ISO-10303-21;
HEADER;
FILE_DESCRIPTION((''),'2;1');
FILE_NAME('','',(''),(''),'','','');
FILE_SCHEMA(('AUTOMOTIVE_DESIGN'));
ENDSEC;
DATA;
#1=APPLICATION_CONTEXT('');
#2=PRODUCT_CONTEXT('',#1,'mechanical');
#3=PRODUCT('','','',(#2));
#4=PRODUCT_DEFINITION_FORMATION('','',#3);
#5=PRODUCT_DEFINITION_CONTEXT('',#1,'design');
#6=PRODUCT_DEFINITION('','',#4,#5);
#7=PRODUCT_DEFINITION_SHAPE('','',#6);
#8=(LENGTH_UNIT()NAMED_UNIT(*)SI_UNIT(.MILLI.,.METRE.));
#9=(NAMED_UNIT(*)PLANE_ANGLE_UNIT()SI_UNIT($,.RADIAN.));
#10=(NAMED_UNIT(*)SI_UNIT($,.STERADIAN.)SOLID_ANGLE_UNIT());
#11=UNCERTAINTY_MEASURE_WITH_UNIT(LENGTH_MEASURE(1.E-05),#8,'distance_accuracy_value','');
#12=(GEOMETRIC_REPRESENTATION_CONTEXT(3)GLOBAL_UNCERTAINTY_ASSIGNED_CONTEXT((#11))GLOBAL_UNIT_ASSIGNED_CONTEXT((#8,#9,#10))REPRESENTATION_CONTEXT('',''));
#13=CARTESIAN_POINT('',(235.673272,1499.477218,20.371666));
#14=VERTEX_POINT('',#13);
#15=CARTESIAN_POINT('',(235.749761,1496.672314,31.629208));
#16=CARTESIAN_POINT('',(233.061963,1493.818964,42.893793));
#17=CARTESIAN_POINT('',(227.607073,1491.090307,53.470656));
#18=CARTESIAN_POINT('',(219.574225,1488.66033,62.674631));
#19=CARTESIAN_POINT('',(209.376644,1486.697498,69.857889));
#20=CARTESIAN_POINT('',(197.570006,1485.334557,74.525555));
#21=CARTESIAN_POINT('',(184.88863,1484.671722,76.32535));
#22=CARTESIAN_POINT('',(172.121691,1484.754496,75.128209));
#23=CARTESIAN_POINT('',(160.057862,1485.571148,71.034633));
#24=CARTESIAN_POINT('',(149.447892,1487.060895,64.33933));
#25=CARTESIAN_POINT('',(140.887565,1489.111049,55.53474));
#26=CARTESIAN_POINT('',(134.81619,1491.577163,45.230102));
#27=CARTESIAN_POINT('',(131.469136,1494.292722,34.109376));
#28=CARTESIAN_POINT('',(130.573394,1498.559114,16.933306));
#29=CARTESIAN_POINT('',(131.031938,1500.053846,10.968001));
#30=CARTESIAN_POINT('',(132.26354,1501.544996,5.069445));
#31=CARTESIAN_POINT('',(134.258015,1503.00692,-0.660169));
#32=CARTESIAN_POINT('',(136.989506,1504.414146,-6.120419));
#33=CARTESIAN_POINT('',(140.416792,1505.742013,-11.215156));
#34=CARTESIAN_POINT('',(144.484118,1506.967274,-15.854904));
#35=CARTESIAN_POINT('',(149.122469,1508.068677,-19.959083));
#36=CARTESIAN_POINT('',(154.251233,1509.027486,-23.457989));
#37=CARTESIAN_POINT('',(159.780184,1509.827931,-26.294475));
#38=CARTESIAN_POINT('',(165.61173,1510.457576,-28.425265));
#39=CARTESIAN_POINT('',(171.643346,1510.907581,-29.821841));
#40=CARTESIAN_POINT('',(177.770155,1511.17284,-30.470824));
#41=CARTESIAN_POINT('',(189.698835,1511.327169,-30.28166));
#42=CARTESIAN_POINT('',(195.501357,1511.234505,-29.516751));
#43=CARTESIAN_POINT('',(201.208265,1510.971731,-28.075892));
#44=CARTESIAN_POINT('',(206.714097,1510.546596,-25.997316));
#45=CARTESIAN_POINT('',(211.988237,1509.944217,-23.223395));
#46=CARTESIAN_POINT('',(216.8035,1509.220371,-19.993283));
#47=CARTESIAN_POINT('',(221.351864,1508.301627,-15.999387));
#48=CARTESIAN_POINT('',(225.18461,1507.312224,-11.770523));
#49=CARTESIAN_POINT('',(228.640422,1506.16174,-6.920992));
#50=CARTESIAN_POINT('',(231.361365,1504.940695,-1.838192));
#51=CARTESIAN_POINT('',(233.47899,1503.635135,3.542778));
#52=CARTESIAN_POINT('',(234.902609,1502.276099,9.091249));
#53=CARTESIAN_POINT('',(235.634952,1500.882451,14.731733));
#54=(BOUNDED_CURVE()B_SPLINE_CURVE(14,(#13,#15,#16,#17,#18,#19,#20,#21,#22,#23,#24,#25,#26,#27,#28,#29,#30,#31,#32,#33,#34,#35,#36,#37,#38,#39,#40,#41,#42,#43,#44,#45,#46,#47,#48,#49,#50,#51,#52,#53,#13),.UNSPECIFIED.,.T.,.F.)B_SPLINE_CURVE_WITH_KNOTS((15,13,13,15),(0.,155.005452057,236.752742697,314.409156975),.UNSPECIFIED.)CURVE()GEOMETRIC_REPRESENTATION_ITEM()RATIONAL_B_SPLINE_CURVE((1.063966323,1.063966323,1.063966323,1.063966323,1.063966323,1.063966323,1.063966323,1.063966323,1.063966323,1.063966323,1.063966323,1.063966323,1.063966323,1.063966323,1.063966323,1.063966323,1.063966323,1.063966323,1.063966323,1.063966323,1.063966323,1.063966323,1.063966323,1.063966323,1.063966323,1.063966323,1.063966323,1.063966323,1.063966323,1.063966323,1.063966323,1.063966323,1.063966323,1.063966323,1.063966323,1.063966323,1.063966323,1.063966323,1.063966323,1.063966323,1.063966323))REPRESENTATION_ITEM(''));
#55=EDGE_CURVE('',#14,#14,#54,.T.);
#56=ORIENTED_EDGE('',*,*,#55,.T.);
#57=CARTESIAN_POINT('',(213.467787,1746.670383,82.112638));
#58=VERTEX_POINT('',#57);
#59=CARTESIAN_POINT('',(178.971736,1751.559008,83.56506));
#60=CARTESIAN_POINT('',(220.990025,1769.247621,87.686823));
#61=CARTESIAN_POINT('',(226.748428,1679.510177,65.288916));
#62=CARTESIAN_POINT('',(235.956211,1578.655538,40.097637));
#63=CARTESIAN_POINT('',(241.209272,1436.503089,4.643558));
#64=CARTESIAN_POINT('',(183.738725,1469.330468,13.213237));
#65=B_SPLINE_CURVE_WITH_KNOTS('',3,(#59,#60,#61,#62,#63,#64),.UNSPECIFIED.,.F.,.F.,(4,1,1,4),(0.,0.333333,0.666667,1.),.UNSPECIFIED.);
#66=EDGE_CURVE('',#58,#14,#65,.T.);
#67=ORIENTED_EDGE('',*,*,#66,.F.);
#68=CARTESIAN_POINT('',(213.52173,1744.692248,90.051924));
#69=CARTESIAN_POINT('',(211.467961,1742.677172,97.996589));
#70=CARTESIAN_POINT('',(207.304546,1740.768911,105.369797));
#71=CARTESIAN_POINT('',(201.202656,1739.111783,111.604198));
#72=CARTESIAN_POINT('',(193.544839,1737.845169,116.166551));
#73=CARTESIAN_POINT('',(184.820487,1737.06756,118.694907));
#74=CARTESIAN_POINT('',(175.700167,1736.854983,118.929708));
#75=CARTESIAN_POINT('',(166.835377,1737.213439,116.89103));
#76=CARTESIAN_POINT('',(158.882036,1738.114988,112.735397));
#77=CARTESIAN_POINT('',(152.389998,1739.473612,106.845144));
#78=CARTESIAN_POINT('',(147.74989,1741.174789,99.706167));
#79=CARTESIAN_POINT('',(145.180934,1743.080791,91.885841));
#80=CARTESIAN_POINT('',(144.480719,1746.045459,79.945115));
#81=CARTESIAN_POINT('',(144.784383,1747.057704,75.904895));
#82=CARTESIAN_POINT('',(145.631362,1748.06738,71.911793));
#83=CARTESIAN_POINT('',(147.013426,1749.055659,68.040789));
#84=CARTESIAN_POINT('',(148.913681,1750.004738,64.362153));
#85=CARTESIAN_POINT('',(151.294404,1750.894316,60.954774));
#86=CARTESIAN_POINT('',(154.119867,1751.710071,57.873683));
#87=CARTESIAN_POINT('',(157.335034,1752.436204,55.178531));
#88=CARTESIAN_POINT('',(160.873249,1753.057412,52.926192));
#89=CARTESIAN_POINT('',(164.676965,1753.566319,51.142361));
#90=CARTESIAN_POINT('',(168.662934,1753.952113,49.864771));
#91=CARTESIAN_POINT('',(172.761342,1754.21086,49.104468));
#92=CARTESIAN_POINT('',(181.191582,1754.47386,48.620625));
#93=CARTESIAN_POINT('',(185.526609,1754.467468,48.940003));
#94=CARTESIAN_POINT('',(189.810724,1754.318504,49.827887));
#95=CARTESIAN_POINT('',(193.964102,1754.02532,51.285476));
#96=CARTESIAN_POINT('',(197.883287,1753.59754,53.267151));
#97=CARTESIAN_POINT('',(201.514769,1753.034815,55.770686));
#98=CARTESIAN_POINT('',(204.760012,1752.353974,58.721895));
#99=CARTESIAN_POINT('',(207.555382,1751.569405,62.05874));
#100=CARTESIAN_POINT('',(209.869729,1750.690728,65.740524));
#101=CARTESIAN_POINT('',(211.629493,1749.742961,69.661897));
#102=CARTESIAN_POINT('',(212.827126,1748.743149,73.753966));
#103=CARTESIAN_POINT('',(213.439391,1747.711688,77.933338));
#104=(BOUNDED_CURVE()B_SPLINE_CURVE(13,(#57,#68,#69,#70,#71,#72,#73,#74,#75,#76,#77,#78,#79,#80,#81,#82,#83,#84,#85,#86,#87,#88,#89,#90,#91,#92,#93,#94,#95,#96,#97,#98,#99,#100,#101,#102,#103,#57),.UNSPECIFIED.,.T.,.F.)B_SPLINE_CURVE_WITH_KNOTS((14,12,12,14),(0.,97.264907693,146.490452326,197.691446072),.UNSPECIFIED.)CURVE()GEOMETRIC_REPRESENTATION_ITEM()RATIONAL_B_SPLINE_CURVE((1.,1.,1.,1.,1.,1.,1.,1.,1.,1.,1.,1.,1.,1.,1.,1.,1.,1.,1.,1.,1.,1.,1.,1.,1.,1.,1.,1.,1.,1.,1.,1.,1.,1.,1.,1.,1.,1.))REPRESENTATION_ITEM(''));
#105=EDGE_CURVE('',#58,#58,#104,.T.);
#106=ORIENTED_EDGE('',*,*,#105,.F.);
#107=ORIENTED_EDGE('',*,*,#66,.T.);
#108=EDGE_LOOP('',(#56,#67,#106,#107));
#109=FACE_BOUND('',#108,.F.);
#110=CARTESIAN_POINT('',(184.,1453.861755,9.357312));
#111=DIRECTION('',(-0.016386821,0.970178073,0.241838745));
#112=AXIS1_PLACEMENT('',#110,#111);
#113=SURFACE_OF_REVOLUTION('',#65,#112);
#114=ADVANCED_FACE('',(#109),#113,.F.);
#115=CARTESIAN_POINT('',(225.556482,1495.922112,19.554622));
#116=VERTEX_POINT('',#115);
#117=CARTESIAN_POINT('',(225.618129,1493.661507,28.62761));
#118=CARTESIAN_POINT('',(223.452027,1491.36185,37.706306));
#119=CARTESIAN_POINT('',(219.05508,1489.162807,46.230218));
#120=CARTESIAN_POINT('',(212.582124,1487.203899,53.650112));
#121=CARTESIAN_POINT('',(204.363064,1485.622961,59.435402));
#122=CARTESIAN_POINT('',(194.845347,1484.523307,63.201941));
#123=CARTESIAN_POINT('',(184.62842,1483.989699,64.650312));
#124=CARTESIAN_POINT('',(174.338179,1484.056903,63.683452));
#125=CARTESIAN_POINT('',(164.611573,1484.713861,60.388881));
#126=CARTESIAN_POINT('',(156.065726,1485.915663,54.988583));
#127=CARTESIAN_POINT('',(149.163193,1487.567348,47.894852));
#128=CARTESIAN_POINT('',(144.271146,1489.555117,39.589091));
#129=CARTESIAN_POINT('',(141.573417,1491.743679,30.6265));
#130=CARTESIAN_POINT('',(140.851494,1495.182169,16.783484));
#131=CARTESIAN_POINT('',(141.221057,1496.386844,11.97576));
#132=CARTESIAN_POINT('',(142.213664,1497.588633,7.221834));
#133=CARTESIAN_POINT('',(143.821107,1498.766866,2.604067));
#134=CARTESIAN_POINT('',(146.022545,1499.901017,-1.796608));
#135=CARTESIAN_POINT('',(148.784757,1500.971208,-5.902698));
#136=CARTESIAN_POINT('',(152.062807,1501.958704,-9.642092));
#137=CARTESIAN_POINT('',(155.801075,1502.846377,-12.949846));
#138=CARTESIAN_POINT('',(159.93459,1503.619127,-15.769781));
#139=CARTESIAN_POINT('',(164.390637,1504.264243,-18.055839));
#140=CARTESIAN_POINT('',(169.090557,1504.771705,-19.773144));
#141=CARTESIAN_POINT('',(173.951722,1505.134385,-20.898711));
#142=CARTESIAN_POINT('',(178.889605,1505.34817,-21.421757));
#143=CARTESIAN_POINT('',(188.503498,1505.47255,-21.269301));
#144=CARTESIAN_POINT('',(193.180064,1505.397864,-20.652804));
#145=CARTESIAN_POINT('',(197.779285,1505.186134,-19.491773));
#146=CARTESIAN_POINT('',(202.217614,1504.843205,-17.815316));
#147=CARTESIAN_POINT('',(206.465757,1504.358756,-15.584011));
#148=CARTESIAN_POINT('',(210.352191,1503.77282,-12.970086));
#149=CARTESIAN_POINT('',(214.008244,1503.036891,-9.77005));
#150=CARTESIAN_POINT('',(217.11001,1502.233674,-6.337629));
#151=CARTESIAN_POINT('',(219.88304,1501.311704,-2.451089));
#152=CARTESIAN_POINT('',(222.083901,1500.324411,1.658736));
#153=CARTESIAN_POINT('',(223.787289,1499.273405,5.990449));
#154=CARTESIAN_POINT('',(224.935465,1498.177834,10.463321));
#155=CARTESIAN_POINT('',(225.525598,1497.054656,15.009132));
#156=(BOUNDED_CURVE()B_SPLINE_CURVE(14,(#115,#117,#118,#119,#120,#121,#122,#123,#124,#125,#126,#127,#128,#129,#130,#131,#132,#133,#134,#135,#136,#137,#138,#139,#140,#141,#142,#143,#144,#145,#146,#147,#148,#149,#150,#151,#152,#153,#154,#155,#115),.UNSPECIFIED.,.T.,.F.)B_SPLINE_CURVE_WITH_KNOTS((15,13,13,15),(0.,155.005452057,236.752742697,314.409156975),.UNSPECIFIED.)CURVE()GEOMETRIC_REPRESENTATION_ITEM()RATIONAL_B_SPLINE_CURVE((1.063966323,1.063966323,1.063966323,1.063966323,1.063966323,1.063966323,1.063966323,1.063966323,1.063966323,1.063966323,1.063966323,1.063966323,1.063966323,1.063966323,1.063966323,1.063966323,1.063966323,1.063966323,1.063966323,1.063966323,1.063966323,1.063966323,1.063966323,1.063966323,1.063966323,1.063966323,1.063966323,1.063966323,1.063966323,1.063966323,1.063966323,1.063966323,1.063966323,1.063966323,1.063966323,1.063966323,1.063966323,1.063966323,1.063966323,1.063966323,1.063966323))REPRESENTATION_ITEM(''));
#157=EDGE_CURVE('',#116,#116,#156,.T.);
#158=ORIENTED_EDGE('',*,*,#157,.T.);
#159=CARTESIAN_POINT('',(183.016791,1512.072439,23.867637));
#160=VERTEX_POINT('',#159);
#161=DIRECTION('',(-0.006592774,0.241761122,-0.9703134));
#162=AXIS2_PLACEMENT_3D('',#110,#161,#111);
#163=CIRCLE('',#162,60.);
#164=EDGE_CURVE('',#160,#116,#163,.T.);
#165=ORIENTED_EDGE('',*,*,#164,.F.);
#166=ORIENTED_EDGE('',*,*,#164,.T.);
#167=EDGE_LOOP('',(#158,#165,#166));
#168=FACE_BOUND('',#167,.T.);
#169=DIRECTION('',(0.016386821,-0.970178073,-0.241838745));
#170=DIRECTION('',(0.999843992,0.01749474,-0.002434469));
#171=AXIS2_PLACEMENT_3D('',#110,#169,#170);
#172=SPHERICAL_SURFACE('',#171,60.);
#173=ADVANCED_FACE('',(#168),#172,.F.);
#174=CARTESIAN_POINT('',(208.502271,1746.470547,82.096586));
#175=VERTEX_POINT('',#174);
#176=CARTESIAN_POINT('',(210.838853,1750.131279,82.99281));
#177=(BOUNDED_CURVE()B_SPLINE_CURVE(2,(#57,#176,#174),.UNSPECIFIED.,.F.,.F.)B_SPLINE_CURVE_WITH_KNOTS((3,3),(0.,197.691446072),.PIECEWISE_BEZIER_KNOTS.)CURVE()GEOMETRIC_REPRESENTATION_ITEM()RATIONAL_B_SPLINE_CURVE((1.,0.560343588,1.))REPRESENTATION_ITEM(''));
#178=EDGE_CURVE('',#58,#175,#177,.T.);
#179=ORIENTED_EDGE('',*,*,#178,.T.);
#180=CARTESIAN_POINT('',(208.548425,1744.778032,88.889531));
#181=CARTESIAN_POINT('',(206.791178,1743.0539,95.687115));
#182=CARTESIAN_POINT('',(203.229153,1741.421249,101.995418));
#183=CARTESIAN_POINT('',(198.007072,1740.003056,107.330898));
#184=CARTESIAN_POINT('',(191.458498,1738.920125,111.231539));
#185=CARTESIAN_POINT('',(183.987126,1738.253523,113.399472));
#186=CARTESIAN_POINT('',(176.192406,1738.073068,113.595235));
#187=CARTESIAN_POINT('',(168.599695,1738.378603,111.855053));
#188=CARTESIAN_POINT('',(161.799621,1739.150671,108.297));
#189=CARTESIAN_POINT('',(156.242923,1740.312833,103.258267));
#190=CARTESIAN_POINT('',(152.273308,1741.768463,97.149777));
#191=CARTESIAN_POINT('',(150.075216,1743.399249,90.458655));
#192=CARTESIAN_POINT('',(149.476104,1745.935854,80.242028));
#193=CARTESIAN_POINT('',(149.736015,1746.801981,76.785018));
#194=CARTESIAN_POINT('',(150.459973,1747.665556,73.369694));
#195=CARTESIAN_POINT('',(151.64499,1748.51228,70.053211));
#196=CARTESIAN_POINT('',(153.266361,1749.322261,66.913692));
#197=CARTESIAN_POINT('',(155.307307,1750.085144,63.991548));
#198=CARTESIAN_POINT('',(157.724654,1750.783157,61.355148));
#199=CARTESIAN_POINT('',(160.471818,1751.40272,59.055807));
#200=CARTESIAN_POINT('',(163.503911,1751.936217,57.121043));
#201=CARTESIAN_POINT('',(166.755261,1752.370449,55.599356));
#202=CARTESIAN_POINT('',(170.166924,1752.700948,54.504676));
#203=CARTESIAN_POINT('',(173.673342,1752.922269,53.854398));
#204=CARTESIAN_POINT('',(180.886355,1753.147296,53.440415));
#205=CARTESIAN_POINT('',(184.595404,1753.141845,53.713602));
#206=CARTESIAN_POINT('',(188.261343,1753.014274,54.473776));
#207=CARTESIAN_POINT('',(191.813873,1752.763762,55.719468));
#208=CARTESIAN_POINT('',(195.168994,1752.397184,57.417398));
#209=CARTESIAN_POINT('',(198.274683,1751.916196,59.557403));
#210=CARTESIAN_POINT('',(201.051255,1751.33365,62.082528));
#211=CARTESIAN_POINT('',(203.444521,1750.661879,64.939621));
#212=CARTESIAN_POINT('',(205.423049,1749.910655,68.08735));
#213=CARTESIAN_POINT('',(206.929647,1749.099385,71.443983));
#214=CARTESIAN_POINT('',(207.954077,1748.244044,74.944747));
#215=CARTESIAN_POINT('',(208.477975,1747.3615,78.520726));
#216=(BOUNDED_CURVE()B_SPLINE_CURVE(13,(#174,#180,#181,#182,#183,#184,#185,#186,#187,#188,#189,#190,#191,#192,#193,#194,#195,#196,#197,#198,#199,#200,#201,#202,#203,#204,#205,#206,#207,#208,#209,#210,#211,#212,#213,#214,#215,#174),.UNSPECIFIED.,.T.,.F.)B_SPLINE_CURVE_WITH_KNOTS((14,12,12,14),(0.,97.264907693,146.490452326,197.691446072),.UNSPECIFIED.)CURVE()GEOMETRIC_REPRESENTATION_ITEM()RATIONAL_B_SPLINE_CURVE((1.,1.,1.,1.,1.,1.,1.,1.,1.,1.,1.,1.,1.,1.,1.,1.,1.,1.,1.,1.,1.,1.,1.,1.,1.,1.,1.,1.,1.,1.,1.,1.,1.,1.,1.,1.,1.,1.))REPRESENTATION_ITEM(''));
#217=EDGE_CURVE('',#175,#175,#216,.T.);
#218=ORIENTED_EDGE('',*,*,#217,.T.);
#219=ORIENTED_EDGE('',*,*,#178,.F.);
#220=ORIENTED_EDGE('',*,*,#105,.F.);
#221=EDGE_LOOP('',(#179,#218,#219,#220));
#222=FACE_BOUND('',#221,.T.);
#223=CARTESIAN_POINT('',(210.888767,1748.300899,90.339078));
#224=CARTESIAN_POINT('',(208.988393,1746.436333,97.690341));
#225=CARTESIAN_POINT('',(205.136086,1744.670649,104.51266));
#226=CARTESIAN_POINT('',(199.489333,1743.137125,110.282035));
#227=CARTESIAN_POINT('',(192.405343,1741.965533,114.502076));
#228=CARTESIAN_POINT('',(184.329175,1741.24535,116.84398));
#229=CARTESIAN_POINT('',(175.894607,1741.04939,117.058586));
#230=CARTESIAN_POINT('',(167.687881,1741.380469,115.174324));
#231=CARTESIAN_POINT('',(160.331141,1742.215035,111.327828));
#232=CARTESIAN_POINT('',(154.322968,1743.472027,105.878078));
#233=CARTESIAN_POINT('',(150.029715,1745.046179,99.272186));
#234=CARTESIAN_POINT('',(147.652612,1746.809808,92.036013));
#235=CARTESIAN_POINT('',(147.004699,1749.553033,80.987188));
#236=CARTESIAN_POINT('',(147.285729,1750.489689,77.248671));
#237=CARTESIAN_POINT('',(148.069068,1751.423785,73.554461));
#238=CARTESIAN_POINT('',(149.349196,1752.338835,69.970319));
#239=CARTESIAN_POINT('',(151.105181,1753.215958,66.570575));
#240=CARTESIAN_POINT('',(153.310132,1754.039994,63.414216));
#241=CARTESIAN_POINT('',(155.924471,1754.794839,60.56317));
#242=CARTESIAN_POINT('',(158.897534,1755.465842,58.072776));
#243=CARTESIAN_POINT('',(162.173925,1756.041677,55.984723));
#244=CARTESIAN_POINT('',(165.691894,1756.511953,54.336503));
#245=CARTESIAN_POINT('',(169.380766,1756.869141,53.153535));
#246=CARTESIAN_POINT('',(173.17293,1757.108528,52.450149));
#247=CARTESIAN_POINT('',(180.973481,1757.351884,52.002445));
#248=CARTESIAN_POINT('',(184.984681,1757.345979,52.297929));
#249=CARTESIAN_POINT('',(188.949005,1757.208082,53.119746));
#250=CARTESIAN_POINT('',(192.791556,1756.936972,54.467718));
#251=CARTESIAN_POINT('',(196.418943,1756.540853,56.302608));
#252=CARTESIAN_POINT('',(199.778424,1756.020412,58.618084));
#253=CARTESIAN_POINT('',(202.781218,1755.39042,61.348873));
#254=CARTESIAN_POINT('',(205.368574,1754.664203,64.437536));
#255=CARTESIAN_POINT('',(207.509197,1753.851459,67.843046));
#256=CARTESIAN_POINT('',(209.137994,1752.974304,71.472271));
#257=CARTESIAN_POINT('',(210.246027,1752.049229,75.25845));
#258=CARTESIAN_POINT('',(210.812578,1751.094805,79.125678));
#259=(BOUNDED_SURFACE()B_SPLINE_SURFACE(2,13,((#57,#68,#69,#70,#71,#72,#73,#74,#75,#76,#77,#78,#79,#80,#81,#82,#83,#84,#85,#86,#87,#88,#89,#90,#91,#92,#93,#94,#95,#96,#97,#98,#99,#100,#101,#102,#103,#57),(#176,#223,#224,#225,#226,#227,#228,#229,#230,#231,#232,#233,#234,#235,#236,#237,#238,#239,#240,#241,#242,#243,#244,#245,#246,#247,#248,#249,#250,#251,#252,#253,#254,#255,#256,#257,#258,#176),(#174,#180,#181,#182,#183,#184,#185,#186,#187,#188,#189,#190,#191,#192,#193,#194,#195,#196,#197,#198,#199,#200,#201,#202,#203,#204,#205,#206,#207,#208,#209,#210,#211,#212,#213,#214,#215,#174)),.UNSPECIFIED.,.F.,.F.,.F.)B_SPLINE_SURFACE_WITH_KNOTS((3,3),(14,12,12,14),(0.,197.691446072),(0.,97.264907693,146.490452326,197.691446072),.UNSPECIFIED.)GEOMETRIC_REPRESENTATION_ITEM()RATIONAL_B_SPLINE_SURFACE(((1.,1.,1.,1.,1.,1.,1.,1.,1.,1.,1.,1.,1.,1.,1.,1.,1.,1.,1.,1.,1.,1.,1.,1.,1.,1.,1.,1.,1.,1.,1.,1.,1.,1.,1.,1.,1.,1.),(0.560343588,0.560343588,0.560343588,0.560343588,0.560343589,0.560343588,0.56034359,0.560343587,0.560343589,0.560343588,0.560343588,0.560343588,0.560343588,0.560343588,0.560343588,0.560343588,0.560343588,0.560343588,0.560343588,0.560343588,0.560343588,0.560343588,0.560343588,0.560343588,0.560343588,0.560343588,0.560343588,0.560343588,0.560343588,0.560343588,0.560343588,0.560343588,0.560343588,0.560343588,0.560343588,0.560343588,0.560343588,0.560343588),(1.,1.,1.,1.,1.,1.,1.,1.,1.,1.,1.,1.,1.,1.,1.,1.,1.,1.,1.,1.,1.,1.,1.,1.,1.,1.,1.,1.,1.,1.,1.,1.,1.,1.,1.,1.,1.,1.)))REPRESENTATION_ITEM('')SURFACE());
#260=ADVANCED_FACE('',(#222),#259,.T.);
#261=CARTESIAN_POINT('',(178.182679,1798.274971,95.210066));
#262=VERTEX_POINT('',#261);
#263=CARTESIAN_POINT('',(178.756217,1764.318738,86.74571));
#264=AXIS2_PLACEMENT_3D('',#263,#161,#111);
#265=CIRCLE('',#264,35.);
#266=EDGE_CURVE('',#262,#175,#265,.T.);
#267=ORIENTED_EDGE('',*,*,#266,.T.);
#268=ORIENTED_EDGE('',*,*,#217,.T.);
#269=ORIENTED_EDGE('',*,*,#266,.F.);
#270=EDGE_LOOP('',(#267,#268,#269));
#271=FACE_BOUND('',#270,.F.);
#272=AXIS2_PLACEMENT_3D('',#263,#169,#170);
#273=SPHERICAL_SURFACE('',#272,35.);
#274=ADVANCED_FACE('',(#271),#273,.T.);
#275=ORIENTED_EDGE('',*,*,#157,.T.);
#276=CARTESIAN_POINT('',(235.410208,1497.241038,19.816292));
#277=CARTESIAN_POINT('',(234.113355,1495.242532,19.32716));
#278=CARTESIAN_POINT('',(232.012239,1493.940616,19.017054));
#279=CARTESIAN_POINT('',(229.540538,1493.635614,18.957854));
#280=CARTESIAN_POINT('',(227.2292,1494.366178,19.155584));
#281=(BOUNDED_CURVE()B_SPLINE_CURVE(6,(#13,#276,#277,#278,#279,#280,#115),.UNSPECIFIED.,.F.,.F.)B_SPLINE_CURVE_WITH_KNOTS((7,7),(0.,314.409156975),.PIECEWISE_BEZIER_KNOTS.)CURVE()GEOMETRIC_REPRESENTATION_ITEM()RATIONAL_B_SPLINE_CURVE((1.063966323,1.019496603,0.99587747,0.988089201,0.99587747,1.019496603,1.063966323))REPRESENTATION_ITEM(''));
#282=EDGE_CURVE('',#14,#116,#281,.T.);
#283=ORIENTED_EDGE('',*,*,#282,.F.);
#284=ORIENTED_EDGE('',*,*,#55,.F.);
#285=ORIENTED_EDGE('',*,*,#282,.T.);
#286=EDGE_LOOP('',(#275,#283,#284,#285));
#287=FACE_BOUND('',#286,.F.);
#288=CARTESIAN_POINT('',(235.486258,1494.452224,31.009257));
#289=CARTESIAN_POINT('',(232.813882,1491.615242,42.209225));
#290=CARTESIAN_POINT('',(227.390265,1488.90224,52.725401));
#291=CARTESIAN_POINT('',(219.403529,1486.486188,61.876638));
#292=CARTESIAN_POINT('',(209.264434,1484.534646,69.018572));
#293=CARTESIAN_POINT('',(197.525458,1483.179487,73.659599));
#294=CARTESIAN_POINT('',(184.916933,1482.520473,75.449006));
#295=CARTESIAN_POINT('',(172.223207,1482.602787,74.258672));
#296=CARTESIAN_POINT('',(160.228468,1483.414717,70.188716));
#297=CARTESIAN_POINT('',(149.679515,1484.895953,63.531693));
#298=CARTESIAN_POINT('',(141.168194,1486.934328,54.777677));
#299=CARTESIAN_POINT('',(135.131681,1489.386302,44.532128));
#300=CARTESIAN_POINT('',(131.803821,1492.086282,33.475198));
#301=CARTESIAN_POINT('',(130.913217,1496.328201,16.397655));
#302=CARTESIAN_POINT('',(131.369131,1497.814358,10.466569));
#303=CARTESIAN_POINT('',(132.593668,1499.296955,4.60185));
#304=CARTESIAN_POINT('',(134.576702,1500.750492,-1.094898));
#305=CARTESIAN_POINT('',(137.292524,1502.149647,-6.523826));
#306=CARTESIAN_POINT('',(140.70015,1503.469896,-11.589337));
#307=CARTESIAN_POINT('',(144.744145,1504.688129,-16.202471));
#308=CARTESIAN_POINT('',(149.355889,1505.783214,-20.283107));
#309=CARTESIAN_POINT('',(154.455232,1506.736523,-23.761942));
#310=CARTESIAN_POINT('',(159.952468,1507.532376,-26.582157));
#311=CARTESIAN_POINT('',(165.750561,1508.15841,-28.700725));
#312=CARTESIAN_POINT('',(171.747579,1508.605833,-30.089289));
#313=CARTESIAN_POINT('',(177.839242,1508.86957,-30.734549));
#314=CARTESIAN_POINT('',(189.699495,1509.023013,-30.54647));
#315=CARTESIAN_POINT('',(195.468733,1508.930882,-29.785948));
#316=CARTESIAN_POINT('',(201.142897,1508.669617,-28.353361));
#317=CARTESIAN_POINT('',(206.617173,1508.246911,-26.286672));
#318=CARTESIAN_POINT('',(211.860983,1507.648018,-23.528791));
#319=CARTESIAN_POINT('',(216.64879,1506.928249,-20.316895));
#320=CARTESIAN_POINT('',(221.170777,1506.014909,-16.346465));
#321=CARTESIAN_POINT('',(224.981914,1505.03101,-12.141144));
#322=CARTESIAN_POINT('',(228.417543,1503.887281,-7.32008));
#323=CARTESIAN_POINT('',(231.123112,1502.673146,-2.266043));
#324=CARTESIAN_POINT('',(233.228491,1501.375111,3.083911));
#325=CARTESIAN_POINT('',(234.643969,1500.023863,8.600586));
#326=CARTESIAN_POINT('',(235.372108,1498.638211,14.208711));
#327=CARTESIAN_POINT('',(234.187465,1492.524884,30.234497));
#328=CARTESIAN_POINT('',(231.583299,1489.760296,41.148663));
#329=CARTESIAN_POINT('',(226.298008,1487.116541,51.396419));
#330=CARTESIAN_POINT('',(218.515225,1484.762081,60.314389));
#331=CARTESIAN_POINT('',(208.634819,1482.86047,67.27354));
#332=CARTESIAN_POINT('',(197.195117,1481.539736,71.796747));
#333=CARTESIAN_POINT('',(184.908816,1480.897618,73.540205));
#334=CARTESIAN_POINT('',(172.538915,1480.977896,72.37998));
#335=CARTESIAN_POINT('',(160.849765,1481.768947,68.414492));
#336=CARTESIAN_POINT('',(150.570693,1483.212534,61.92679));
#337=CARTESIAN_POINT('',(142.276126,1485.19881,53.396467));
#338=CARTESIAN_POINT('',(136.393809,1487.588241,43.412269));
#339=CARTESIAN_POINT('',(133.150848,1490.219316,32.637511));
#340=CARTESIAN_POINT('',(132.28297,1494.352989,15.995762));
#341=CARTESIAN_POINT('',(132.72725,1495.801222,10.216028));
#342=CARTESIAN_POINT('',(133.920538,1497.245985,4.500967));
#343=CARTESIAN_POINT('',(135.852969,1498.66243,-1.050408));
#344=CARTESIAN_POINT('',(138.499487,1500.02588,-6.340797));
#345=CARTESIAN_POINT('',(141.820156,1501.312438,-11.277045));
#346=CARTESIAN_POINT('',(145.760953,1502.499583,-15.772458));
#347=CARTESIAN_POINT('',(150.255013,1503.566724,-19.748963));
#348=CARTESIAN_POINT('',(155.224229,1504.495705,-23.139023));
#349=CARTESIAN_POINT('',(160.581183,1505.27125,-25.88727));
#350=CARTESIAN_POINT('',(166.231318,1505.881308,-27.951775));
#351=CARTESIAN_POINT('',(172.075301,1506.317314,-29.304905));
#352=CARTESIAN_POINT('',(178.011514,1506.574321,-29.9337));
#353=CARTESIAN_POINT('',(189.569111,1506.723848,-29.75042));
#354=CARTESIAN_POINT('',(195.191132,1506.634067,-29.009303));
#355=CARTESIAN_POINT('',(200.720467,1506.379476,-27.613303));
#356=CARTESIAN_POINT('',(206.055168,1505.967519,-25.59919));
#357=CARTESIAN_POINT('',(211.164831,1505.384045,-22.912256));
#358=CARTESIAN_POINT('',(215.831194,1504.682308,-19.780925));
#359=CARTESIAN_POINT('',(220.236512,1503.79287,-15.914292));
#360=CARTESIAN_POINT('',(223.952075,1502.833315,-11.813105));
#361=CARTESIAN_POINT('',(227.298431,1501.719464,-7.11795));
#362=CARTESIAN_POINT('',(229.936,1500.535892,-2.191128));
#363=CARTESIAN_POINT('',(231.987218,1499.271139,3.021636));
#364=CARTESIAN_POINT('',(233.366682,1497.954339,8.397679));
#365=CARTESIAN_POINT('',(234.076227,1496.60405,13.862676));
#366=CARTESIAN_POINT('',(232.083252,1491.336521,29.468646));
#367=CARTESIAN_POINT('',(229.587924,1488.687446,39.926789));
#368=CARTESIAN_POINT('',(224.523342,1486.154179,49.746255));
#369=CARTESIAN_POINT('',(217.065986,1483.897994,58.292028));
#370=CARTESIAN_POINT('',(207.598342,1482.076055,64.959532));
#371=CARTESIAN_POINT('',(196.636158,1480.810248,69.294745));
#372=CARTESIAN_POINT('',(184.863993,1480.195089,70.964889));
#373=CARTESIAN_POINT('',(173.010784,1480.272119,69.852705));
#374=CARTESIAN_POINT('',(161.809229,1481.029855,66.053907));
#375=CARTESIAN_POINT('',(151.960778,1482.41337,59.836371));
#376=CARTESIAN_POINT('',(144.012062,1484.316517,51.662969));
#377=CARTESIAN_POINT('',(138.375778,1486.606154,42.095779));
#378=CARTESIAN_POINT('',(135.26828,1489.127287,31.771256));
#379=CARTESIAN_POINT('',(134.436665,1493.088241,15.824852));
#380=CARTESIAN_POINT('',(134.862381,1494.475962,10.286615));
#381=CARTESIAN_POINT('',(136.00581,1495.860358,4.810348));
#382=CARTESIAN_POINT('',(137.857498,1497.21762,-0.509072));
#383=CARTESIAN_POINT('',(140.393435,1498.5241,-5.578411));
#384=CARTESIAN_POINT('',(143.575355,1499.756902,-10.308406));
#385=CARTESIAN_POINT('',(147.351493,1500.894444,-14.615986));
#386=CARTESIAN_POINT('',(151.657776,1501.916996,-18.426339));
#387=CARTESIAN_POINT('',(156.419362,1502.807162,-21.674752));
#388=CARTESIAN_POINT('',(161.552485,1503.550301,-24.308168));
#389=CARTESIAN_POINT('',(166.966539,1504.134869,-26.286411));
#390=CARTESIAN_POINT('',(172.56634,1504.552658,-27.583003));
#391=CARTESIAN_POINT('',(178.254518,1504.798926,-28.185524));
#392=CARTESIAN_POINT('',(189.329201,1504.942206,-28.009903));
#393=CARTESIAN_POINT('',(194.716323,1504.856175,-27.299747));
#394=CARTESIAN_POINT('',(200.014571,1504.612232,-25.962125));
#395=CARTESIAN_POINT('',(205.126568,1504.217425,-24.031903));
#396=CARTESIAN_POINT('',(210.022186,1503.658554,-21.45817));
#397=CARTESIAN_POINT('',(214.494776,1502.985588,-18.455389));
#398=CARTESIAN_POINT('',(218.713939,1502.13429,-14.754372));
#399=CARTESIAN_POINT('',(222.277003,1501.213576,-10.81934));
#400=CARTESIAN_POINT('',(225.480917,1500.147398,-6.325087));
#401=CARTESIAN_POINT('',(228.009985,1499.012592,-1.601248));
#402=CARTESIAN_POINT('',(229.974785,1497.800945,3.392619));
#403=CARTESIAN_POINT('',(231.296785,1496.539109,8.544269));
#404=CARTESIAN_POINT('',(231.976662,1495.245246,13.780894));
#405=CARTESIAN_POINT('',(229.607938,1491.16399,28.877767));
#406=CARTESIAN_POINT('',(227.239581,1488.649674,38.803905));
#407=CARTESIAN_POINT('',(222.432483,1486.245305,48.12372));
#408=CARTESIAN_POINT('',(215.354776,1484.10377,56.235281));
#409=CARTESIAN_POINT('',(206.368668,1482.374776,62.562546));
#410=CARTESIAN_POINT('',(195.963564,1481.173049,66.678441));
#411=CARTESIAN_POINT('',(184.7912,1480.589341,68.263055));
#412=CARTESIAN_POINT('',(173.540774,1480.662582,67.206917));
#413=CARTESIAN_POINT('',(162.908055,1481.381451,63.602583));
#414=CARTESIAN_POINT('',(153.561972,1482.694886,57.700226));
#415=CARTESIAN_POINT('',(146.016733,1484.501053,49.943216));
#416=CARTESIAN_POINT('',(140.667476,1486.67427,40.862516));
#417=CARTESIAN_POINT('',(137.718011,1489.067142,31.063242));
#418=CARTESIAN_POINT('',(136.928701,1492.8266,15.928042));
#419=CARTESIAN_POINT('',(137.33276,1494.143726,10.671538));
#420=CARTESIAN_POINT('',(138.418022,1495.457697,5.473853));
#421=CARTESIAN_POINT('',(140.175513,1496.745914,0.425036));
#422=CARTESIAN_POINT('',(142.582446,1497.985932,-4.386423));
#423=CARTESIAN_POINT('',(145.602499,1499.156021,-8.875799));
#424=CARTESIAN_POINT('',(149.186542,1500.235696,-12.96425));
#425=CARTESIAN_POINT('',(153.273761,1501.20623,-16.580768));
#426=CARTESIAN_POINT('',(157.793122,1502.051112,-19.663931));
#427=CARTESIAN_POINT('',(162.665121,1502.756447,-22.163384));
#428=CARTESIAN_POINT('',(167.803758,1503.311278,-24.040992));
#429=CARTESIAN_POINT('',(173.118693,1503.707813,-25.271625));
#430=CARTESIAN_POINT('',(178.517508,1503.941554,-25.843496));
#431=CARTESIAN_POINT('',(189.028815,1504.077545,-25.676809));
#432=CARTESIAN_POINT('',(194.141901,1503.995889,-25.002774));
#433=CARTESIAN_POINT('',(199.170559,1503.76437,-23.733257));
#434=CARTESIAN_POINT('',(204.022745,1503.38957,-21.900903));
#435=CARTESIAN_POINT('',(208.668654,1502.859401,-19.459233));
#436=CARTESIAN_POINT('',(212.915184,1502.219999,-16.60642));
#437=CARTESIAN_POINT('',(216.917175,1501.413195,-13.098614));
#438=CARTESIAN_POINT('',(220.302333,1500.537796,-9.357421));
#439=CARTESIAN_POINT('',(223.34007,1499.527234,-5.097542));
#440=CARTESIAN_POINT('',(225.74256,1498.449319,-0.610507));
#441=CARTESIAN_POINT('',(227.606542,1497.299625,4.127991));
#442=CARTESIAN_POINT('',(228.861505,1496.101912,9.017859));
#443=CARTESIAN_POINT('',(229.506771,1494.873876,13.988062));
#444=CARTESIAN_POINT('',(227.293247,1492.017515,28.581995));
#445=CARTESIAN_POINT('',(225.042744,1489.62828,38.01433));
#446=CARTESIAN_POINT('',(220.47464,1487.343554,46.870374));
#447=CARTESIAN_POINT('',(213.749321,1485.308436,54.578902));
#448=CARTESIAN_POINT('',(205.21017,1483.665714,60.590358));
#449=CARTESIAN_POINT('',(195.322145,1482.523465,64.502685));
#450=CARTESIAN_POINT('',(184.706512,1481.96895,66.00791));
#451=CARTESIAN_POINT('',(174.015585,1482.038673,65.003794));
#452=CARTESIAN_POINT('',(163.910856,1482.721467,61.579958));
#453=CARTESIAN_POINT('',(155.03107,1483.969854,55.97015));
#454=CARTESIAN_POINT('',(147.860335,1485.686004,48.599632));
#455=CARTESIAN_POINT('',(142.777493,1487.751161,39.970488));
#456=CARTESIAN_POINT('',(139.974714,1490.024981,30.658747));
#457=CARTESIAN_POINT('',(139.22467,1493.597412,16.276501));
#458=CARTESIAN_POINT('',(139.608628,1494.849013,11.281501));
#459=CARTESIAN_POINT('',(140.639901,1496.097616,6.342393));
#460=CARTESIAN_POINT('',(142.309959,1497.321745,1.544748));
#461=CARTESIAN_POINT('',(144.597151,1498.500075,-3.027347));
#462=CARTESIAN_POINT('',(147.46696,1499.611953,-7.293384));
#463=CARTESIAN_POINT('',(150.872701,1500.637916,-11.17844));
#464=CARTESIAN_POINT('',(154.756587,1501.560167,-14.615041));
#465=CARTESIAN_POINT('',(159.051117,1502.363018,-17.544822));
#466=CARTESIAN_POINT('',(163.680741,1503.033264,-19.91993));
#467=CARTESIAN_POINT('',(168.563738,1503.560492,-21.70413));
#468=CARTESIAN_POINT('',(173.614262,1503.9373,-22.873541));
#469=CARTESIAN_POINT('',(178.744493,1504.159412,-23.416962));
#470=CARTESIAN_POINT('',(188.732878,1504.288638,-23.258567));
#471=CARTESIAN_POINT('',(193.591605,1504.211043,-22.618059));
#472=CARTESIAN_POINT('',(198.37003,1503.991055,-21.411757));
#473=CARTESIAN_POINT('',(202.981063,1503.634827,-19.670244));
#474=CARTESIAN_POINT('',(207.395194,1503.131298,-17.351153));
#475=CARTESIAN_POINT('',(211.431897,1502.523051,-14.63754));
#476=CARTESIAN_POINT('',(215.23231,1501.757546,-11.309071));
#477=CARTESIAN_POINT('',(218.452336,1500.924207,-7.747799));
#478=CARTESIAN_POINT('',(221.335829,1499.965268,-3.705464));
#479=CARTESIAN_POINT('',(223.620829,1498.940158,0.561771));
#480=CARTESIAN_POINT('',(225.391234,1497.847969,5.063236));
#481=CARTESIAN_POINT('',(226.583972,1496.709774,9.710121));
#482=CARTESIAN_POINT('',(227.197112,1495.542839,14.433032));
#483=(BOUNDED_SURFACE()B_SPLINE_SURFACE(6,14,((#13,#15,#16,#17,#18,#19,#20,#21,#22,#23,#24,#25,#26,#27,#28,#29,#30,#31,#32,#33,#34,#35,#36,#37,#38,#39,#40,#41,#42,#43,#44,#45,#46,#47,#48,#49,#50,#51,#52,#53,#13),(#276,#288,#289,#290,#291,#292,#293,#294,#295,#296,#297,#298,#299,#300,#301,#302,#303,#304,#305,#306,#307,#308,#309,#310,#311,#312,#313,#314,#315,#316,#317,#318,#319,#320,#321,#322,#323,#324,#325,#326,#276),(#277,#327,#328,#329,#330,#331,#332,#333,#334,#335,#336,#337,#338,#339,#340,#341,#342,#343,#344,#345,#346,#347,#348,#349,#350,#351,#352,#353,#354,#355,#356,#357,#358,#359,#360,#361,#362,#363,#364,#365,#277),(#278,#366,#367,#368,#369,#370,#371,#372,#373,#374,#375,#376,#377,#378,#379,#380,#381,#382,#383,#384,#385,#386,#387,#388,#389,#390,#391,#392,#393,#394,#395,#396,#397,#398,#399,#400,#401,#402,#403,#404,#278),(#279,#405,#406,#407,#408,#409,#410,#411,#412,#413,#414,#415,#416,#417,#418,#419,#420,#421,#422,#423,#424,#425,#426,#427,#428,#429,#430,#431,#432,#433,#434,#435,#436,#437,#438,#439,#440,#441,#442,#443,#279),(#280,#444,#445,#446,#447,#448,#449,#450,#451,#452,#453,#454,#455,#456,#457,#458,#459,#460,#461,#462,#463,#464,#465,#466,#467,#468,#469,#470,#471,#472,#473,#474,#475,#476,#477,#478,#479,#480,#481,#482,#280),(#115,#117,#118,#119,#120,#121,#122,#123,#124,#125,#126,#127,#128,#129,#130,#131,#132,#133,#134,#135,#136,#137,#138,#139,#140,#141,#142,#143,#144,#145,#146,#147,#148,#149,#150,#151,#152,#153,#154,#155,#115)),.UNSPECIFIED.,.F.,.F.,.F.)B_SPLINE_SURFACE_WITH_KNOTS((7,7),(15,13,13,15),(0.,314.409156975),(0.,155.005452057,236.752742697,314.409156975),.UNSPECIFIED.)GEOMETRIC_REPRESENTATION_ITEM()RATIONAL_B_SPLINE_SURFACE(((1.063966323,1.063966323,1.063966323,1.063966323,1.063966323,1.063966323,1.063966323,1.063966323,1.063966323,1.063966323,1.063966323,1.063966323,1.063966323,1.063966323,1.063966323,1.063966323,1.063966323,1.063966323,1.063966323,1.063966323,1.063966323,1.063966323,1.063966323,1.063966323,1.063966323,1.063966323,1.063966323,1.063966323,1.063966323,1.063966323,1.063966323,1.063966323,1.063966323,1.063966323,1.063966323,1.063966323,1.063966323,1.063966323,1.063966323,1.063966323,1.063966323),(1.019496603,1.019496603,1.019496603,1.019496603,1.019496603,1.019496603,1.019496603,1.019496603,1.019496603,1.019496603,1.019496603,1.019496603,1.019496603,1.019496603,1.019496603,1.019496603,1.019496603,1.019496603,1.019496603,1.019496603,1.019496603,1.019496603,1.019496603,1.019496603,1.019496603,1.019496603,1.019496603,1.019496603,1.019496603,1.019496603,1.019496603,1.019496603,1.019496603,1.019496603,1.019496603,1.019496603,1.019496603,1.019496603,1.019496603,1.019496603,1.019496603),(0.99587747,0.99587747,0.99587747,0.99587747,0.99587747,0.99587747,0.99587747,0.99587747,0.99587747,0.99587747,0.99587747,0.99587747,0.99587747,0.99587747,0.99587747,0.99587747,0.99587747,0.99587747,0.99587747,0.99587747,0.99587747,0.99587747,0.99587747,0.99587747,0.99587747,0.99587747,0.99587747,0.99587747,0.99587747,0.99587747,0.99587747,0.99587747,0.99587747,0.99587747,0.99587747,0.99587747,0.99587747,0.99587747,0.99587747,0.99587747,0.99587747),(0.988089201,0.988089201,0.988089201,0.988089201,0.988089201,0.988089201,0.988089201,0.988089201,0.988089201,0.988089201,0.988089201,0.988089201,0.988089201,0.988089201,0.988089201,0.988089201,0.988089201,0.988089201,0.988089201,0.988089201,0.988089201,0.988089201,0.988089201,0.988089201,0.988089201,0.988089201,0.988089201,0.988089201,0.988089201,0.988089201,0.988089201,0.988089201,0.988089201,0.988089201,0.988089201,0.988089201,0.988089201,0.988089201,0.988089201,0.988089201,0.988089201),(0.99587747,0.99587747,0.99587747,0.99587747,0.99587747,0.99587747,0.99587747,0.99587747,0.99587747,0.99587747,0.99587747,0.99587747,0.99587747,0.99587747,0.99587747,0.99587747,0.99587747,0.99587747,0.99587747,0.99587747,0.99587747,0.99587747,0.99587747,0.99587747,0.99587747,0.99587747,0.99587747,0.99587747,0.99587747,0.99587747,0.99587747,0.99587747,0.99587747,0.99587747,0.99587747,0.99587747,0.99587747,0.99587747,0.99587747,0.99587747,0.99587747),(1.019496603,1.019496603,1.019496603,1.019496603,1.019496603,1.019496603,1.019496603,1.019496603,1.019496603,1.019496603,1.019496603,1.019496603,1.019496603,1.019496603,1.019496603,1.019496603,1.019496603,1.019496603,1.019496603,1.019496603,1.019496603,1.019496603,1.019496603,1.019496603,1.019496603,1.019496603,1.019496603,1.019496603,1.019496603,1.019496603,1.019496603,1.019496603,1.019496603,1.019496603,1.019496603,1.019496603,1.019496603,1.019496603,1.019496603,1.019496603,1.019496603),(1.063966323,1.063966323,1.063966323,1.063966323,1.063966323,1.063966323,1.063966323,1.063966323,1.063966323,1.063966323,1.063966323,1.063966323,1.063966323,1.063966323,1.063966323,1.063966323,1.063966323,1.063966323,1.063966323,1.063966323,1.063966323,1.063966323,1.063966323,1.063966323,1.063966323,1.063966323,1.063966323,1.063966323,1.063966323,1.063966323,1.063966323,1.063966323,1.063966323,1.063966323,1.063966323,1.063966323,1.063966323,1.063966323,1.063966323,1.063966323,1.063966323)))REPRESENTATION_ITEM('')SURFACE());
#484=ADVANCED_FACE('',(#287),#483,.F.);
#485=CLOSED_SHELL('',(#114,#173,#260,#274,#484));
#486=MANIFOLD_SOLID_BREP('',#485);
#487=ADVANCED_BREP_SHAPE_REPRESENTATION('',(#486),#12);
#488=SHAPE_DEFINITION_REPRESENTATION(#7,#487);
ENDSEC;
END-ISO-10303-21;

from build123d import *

# Parameters (mm, degrees)
FILLET059_R             = 6
FILLET060_R             = 3
BODY037_ROLL_ANGLE      = -179.856248
BODY037_PITCH_ANGLE     = -13.99509
BODY037_PLACEMENT_ANGLE = 90.967664


with BuildPart() as part:
    # Sketch125 → Revolution065 (revolve)
    with BuildSketch(Plane.XY):
        with BuildLine():
            Line((15.9442, 0), (306.848053, 0))
            add(Edge.make_bspline(
                [(306.848053, 0), (324.317413, 42.311157), (231.745069, 46.553256), (127.654996, 54.056504), (-18.918443, 56.908137), (15.9442, 0)],
                knots=[0, 0, 0, 0, 0.333333, 0.666667, 1, 1, 1, 1], degree=3))
        make_face()
    revolve(axis=Axis((0, 0, 0), (1, 0, 0)))

    # Sketch126 → Groove058 (revolve, cut)
    with BuildSketch(Plane.XY):
        with BuildLine():
            Line((-60, 0), (60, 0))
            ThreePointArc((60, 0), (0, 60), (-60, 0))
        make_face()
    revolve(axis=Axis((0, 0, 0), (1, 0, 0)), mode=Mode.SUBTRACT)

    # Fillet059
    fillet059_edges = [part.edges().sort_by_distance(p)[0] for p in [
        (33.106232, -50.039758, 0),
    ]]
    fillet(fillet059_edges, radius=FILLET059_R)

    # Sketch127 → Groove059 (revolve, cut)
    with BuildSketch(Plane.XY):
        with BuildLine():
            Line((285, 0), (355, 0))
            ThreePointArc((355, 0), (320, 35), (285, 0))
        make_face()
    revolve(axis=Axis((0, 0, 0), (1, 0, 0)), mode=Mode.SUBTRACT)

    # Fillet060
    fillet060_edges = [part.edges().sort_by_distance(p)[0] for p in [
        (304.668851, -31.463564, 0),
    ]]
    fillet(fillet060_edges, radius=FILLET060_R)

    # Sketch127 → Revolution066 (revolve)
    with BuildSketch(Plane.XY):
        with BuildLine():
            Line((285, 0), (355, 0))
            ThreePointArc((355, 0), (320, 35), (285, 0))
        make_face()
    revolve(axis=Axis((0, 0, 0), (1, 0, 0)))


with BuildPart() as part_1:
    # Body037 roll: moved
    add(part.part.rotate(Axis((0, 0, 0), (1, 0, 0)), BODY037_ROLL_ANGLE))


with BuildPart() as part_2:
    # Body037 pitch: moved
    add(part_1.part.rotate(Axis((0, 0, 0), (0, 1, 0)), BODY037_PITCH_ANGLE))


with BuildPart() as part_3:
    # Body037 placement: moved
    add(part_2.part.moved(Location((184, 1453.861755, 9.357312))).rotate(Axis((184, 1453.861755, 9.357312), (0, 0, 1)), BODY037_PLACEMENT_ANGLE))


solid = part_3.part
